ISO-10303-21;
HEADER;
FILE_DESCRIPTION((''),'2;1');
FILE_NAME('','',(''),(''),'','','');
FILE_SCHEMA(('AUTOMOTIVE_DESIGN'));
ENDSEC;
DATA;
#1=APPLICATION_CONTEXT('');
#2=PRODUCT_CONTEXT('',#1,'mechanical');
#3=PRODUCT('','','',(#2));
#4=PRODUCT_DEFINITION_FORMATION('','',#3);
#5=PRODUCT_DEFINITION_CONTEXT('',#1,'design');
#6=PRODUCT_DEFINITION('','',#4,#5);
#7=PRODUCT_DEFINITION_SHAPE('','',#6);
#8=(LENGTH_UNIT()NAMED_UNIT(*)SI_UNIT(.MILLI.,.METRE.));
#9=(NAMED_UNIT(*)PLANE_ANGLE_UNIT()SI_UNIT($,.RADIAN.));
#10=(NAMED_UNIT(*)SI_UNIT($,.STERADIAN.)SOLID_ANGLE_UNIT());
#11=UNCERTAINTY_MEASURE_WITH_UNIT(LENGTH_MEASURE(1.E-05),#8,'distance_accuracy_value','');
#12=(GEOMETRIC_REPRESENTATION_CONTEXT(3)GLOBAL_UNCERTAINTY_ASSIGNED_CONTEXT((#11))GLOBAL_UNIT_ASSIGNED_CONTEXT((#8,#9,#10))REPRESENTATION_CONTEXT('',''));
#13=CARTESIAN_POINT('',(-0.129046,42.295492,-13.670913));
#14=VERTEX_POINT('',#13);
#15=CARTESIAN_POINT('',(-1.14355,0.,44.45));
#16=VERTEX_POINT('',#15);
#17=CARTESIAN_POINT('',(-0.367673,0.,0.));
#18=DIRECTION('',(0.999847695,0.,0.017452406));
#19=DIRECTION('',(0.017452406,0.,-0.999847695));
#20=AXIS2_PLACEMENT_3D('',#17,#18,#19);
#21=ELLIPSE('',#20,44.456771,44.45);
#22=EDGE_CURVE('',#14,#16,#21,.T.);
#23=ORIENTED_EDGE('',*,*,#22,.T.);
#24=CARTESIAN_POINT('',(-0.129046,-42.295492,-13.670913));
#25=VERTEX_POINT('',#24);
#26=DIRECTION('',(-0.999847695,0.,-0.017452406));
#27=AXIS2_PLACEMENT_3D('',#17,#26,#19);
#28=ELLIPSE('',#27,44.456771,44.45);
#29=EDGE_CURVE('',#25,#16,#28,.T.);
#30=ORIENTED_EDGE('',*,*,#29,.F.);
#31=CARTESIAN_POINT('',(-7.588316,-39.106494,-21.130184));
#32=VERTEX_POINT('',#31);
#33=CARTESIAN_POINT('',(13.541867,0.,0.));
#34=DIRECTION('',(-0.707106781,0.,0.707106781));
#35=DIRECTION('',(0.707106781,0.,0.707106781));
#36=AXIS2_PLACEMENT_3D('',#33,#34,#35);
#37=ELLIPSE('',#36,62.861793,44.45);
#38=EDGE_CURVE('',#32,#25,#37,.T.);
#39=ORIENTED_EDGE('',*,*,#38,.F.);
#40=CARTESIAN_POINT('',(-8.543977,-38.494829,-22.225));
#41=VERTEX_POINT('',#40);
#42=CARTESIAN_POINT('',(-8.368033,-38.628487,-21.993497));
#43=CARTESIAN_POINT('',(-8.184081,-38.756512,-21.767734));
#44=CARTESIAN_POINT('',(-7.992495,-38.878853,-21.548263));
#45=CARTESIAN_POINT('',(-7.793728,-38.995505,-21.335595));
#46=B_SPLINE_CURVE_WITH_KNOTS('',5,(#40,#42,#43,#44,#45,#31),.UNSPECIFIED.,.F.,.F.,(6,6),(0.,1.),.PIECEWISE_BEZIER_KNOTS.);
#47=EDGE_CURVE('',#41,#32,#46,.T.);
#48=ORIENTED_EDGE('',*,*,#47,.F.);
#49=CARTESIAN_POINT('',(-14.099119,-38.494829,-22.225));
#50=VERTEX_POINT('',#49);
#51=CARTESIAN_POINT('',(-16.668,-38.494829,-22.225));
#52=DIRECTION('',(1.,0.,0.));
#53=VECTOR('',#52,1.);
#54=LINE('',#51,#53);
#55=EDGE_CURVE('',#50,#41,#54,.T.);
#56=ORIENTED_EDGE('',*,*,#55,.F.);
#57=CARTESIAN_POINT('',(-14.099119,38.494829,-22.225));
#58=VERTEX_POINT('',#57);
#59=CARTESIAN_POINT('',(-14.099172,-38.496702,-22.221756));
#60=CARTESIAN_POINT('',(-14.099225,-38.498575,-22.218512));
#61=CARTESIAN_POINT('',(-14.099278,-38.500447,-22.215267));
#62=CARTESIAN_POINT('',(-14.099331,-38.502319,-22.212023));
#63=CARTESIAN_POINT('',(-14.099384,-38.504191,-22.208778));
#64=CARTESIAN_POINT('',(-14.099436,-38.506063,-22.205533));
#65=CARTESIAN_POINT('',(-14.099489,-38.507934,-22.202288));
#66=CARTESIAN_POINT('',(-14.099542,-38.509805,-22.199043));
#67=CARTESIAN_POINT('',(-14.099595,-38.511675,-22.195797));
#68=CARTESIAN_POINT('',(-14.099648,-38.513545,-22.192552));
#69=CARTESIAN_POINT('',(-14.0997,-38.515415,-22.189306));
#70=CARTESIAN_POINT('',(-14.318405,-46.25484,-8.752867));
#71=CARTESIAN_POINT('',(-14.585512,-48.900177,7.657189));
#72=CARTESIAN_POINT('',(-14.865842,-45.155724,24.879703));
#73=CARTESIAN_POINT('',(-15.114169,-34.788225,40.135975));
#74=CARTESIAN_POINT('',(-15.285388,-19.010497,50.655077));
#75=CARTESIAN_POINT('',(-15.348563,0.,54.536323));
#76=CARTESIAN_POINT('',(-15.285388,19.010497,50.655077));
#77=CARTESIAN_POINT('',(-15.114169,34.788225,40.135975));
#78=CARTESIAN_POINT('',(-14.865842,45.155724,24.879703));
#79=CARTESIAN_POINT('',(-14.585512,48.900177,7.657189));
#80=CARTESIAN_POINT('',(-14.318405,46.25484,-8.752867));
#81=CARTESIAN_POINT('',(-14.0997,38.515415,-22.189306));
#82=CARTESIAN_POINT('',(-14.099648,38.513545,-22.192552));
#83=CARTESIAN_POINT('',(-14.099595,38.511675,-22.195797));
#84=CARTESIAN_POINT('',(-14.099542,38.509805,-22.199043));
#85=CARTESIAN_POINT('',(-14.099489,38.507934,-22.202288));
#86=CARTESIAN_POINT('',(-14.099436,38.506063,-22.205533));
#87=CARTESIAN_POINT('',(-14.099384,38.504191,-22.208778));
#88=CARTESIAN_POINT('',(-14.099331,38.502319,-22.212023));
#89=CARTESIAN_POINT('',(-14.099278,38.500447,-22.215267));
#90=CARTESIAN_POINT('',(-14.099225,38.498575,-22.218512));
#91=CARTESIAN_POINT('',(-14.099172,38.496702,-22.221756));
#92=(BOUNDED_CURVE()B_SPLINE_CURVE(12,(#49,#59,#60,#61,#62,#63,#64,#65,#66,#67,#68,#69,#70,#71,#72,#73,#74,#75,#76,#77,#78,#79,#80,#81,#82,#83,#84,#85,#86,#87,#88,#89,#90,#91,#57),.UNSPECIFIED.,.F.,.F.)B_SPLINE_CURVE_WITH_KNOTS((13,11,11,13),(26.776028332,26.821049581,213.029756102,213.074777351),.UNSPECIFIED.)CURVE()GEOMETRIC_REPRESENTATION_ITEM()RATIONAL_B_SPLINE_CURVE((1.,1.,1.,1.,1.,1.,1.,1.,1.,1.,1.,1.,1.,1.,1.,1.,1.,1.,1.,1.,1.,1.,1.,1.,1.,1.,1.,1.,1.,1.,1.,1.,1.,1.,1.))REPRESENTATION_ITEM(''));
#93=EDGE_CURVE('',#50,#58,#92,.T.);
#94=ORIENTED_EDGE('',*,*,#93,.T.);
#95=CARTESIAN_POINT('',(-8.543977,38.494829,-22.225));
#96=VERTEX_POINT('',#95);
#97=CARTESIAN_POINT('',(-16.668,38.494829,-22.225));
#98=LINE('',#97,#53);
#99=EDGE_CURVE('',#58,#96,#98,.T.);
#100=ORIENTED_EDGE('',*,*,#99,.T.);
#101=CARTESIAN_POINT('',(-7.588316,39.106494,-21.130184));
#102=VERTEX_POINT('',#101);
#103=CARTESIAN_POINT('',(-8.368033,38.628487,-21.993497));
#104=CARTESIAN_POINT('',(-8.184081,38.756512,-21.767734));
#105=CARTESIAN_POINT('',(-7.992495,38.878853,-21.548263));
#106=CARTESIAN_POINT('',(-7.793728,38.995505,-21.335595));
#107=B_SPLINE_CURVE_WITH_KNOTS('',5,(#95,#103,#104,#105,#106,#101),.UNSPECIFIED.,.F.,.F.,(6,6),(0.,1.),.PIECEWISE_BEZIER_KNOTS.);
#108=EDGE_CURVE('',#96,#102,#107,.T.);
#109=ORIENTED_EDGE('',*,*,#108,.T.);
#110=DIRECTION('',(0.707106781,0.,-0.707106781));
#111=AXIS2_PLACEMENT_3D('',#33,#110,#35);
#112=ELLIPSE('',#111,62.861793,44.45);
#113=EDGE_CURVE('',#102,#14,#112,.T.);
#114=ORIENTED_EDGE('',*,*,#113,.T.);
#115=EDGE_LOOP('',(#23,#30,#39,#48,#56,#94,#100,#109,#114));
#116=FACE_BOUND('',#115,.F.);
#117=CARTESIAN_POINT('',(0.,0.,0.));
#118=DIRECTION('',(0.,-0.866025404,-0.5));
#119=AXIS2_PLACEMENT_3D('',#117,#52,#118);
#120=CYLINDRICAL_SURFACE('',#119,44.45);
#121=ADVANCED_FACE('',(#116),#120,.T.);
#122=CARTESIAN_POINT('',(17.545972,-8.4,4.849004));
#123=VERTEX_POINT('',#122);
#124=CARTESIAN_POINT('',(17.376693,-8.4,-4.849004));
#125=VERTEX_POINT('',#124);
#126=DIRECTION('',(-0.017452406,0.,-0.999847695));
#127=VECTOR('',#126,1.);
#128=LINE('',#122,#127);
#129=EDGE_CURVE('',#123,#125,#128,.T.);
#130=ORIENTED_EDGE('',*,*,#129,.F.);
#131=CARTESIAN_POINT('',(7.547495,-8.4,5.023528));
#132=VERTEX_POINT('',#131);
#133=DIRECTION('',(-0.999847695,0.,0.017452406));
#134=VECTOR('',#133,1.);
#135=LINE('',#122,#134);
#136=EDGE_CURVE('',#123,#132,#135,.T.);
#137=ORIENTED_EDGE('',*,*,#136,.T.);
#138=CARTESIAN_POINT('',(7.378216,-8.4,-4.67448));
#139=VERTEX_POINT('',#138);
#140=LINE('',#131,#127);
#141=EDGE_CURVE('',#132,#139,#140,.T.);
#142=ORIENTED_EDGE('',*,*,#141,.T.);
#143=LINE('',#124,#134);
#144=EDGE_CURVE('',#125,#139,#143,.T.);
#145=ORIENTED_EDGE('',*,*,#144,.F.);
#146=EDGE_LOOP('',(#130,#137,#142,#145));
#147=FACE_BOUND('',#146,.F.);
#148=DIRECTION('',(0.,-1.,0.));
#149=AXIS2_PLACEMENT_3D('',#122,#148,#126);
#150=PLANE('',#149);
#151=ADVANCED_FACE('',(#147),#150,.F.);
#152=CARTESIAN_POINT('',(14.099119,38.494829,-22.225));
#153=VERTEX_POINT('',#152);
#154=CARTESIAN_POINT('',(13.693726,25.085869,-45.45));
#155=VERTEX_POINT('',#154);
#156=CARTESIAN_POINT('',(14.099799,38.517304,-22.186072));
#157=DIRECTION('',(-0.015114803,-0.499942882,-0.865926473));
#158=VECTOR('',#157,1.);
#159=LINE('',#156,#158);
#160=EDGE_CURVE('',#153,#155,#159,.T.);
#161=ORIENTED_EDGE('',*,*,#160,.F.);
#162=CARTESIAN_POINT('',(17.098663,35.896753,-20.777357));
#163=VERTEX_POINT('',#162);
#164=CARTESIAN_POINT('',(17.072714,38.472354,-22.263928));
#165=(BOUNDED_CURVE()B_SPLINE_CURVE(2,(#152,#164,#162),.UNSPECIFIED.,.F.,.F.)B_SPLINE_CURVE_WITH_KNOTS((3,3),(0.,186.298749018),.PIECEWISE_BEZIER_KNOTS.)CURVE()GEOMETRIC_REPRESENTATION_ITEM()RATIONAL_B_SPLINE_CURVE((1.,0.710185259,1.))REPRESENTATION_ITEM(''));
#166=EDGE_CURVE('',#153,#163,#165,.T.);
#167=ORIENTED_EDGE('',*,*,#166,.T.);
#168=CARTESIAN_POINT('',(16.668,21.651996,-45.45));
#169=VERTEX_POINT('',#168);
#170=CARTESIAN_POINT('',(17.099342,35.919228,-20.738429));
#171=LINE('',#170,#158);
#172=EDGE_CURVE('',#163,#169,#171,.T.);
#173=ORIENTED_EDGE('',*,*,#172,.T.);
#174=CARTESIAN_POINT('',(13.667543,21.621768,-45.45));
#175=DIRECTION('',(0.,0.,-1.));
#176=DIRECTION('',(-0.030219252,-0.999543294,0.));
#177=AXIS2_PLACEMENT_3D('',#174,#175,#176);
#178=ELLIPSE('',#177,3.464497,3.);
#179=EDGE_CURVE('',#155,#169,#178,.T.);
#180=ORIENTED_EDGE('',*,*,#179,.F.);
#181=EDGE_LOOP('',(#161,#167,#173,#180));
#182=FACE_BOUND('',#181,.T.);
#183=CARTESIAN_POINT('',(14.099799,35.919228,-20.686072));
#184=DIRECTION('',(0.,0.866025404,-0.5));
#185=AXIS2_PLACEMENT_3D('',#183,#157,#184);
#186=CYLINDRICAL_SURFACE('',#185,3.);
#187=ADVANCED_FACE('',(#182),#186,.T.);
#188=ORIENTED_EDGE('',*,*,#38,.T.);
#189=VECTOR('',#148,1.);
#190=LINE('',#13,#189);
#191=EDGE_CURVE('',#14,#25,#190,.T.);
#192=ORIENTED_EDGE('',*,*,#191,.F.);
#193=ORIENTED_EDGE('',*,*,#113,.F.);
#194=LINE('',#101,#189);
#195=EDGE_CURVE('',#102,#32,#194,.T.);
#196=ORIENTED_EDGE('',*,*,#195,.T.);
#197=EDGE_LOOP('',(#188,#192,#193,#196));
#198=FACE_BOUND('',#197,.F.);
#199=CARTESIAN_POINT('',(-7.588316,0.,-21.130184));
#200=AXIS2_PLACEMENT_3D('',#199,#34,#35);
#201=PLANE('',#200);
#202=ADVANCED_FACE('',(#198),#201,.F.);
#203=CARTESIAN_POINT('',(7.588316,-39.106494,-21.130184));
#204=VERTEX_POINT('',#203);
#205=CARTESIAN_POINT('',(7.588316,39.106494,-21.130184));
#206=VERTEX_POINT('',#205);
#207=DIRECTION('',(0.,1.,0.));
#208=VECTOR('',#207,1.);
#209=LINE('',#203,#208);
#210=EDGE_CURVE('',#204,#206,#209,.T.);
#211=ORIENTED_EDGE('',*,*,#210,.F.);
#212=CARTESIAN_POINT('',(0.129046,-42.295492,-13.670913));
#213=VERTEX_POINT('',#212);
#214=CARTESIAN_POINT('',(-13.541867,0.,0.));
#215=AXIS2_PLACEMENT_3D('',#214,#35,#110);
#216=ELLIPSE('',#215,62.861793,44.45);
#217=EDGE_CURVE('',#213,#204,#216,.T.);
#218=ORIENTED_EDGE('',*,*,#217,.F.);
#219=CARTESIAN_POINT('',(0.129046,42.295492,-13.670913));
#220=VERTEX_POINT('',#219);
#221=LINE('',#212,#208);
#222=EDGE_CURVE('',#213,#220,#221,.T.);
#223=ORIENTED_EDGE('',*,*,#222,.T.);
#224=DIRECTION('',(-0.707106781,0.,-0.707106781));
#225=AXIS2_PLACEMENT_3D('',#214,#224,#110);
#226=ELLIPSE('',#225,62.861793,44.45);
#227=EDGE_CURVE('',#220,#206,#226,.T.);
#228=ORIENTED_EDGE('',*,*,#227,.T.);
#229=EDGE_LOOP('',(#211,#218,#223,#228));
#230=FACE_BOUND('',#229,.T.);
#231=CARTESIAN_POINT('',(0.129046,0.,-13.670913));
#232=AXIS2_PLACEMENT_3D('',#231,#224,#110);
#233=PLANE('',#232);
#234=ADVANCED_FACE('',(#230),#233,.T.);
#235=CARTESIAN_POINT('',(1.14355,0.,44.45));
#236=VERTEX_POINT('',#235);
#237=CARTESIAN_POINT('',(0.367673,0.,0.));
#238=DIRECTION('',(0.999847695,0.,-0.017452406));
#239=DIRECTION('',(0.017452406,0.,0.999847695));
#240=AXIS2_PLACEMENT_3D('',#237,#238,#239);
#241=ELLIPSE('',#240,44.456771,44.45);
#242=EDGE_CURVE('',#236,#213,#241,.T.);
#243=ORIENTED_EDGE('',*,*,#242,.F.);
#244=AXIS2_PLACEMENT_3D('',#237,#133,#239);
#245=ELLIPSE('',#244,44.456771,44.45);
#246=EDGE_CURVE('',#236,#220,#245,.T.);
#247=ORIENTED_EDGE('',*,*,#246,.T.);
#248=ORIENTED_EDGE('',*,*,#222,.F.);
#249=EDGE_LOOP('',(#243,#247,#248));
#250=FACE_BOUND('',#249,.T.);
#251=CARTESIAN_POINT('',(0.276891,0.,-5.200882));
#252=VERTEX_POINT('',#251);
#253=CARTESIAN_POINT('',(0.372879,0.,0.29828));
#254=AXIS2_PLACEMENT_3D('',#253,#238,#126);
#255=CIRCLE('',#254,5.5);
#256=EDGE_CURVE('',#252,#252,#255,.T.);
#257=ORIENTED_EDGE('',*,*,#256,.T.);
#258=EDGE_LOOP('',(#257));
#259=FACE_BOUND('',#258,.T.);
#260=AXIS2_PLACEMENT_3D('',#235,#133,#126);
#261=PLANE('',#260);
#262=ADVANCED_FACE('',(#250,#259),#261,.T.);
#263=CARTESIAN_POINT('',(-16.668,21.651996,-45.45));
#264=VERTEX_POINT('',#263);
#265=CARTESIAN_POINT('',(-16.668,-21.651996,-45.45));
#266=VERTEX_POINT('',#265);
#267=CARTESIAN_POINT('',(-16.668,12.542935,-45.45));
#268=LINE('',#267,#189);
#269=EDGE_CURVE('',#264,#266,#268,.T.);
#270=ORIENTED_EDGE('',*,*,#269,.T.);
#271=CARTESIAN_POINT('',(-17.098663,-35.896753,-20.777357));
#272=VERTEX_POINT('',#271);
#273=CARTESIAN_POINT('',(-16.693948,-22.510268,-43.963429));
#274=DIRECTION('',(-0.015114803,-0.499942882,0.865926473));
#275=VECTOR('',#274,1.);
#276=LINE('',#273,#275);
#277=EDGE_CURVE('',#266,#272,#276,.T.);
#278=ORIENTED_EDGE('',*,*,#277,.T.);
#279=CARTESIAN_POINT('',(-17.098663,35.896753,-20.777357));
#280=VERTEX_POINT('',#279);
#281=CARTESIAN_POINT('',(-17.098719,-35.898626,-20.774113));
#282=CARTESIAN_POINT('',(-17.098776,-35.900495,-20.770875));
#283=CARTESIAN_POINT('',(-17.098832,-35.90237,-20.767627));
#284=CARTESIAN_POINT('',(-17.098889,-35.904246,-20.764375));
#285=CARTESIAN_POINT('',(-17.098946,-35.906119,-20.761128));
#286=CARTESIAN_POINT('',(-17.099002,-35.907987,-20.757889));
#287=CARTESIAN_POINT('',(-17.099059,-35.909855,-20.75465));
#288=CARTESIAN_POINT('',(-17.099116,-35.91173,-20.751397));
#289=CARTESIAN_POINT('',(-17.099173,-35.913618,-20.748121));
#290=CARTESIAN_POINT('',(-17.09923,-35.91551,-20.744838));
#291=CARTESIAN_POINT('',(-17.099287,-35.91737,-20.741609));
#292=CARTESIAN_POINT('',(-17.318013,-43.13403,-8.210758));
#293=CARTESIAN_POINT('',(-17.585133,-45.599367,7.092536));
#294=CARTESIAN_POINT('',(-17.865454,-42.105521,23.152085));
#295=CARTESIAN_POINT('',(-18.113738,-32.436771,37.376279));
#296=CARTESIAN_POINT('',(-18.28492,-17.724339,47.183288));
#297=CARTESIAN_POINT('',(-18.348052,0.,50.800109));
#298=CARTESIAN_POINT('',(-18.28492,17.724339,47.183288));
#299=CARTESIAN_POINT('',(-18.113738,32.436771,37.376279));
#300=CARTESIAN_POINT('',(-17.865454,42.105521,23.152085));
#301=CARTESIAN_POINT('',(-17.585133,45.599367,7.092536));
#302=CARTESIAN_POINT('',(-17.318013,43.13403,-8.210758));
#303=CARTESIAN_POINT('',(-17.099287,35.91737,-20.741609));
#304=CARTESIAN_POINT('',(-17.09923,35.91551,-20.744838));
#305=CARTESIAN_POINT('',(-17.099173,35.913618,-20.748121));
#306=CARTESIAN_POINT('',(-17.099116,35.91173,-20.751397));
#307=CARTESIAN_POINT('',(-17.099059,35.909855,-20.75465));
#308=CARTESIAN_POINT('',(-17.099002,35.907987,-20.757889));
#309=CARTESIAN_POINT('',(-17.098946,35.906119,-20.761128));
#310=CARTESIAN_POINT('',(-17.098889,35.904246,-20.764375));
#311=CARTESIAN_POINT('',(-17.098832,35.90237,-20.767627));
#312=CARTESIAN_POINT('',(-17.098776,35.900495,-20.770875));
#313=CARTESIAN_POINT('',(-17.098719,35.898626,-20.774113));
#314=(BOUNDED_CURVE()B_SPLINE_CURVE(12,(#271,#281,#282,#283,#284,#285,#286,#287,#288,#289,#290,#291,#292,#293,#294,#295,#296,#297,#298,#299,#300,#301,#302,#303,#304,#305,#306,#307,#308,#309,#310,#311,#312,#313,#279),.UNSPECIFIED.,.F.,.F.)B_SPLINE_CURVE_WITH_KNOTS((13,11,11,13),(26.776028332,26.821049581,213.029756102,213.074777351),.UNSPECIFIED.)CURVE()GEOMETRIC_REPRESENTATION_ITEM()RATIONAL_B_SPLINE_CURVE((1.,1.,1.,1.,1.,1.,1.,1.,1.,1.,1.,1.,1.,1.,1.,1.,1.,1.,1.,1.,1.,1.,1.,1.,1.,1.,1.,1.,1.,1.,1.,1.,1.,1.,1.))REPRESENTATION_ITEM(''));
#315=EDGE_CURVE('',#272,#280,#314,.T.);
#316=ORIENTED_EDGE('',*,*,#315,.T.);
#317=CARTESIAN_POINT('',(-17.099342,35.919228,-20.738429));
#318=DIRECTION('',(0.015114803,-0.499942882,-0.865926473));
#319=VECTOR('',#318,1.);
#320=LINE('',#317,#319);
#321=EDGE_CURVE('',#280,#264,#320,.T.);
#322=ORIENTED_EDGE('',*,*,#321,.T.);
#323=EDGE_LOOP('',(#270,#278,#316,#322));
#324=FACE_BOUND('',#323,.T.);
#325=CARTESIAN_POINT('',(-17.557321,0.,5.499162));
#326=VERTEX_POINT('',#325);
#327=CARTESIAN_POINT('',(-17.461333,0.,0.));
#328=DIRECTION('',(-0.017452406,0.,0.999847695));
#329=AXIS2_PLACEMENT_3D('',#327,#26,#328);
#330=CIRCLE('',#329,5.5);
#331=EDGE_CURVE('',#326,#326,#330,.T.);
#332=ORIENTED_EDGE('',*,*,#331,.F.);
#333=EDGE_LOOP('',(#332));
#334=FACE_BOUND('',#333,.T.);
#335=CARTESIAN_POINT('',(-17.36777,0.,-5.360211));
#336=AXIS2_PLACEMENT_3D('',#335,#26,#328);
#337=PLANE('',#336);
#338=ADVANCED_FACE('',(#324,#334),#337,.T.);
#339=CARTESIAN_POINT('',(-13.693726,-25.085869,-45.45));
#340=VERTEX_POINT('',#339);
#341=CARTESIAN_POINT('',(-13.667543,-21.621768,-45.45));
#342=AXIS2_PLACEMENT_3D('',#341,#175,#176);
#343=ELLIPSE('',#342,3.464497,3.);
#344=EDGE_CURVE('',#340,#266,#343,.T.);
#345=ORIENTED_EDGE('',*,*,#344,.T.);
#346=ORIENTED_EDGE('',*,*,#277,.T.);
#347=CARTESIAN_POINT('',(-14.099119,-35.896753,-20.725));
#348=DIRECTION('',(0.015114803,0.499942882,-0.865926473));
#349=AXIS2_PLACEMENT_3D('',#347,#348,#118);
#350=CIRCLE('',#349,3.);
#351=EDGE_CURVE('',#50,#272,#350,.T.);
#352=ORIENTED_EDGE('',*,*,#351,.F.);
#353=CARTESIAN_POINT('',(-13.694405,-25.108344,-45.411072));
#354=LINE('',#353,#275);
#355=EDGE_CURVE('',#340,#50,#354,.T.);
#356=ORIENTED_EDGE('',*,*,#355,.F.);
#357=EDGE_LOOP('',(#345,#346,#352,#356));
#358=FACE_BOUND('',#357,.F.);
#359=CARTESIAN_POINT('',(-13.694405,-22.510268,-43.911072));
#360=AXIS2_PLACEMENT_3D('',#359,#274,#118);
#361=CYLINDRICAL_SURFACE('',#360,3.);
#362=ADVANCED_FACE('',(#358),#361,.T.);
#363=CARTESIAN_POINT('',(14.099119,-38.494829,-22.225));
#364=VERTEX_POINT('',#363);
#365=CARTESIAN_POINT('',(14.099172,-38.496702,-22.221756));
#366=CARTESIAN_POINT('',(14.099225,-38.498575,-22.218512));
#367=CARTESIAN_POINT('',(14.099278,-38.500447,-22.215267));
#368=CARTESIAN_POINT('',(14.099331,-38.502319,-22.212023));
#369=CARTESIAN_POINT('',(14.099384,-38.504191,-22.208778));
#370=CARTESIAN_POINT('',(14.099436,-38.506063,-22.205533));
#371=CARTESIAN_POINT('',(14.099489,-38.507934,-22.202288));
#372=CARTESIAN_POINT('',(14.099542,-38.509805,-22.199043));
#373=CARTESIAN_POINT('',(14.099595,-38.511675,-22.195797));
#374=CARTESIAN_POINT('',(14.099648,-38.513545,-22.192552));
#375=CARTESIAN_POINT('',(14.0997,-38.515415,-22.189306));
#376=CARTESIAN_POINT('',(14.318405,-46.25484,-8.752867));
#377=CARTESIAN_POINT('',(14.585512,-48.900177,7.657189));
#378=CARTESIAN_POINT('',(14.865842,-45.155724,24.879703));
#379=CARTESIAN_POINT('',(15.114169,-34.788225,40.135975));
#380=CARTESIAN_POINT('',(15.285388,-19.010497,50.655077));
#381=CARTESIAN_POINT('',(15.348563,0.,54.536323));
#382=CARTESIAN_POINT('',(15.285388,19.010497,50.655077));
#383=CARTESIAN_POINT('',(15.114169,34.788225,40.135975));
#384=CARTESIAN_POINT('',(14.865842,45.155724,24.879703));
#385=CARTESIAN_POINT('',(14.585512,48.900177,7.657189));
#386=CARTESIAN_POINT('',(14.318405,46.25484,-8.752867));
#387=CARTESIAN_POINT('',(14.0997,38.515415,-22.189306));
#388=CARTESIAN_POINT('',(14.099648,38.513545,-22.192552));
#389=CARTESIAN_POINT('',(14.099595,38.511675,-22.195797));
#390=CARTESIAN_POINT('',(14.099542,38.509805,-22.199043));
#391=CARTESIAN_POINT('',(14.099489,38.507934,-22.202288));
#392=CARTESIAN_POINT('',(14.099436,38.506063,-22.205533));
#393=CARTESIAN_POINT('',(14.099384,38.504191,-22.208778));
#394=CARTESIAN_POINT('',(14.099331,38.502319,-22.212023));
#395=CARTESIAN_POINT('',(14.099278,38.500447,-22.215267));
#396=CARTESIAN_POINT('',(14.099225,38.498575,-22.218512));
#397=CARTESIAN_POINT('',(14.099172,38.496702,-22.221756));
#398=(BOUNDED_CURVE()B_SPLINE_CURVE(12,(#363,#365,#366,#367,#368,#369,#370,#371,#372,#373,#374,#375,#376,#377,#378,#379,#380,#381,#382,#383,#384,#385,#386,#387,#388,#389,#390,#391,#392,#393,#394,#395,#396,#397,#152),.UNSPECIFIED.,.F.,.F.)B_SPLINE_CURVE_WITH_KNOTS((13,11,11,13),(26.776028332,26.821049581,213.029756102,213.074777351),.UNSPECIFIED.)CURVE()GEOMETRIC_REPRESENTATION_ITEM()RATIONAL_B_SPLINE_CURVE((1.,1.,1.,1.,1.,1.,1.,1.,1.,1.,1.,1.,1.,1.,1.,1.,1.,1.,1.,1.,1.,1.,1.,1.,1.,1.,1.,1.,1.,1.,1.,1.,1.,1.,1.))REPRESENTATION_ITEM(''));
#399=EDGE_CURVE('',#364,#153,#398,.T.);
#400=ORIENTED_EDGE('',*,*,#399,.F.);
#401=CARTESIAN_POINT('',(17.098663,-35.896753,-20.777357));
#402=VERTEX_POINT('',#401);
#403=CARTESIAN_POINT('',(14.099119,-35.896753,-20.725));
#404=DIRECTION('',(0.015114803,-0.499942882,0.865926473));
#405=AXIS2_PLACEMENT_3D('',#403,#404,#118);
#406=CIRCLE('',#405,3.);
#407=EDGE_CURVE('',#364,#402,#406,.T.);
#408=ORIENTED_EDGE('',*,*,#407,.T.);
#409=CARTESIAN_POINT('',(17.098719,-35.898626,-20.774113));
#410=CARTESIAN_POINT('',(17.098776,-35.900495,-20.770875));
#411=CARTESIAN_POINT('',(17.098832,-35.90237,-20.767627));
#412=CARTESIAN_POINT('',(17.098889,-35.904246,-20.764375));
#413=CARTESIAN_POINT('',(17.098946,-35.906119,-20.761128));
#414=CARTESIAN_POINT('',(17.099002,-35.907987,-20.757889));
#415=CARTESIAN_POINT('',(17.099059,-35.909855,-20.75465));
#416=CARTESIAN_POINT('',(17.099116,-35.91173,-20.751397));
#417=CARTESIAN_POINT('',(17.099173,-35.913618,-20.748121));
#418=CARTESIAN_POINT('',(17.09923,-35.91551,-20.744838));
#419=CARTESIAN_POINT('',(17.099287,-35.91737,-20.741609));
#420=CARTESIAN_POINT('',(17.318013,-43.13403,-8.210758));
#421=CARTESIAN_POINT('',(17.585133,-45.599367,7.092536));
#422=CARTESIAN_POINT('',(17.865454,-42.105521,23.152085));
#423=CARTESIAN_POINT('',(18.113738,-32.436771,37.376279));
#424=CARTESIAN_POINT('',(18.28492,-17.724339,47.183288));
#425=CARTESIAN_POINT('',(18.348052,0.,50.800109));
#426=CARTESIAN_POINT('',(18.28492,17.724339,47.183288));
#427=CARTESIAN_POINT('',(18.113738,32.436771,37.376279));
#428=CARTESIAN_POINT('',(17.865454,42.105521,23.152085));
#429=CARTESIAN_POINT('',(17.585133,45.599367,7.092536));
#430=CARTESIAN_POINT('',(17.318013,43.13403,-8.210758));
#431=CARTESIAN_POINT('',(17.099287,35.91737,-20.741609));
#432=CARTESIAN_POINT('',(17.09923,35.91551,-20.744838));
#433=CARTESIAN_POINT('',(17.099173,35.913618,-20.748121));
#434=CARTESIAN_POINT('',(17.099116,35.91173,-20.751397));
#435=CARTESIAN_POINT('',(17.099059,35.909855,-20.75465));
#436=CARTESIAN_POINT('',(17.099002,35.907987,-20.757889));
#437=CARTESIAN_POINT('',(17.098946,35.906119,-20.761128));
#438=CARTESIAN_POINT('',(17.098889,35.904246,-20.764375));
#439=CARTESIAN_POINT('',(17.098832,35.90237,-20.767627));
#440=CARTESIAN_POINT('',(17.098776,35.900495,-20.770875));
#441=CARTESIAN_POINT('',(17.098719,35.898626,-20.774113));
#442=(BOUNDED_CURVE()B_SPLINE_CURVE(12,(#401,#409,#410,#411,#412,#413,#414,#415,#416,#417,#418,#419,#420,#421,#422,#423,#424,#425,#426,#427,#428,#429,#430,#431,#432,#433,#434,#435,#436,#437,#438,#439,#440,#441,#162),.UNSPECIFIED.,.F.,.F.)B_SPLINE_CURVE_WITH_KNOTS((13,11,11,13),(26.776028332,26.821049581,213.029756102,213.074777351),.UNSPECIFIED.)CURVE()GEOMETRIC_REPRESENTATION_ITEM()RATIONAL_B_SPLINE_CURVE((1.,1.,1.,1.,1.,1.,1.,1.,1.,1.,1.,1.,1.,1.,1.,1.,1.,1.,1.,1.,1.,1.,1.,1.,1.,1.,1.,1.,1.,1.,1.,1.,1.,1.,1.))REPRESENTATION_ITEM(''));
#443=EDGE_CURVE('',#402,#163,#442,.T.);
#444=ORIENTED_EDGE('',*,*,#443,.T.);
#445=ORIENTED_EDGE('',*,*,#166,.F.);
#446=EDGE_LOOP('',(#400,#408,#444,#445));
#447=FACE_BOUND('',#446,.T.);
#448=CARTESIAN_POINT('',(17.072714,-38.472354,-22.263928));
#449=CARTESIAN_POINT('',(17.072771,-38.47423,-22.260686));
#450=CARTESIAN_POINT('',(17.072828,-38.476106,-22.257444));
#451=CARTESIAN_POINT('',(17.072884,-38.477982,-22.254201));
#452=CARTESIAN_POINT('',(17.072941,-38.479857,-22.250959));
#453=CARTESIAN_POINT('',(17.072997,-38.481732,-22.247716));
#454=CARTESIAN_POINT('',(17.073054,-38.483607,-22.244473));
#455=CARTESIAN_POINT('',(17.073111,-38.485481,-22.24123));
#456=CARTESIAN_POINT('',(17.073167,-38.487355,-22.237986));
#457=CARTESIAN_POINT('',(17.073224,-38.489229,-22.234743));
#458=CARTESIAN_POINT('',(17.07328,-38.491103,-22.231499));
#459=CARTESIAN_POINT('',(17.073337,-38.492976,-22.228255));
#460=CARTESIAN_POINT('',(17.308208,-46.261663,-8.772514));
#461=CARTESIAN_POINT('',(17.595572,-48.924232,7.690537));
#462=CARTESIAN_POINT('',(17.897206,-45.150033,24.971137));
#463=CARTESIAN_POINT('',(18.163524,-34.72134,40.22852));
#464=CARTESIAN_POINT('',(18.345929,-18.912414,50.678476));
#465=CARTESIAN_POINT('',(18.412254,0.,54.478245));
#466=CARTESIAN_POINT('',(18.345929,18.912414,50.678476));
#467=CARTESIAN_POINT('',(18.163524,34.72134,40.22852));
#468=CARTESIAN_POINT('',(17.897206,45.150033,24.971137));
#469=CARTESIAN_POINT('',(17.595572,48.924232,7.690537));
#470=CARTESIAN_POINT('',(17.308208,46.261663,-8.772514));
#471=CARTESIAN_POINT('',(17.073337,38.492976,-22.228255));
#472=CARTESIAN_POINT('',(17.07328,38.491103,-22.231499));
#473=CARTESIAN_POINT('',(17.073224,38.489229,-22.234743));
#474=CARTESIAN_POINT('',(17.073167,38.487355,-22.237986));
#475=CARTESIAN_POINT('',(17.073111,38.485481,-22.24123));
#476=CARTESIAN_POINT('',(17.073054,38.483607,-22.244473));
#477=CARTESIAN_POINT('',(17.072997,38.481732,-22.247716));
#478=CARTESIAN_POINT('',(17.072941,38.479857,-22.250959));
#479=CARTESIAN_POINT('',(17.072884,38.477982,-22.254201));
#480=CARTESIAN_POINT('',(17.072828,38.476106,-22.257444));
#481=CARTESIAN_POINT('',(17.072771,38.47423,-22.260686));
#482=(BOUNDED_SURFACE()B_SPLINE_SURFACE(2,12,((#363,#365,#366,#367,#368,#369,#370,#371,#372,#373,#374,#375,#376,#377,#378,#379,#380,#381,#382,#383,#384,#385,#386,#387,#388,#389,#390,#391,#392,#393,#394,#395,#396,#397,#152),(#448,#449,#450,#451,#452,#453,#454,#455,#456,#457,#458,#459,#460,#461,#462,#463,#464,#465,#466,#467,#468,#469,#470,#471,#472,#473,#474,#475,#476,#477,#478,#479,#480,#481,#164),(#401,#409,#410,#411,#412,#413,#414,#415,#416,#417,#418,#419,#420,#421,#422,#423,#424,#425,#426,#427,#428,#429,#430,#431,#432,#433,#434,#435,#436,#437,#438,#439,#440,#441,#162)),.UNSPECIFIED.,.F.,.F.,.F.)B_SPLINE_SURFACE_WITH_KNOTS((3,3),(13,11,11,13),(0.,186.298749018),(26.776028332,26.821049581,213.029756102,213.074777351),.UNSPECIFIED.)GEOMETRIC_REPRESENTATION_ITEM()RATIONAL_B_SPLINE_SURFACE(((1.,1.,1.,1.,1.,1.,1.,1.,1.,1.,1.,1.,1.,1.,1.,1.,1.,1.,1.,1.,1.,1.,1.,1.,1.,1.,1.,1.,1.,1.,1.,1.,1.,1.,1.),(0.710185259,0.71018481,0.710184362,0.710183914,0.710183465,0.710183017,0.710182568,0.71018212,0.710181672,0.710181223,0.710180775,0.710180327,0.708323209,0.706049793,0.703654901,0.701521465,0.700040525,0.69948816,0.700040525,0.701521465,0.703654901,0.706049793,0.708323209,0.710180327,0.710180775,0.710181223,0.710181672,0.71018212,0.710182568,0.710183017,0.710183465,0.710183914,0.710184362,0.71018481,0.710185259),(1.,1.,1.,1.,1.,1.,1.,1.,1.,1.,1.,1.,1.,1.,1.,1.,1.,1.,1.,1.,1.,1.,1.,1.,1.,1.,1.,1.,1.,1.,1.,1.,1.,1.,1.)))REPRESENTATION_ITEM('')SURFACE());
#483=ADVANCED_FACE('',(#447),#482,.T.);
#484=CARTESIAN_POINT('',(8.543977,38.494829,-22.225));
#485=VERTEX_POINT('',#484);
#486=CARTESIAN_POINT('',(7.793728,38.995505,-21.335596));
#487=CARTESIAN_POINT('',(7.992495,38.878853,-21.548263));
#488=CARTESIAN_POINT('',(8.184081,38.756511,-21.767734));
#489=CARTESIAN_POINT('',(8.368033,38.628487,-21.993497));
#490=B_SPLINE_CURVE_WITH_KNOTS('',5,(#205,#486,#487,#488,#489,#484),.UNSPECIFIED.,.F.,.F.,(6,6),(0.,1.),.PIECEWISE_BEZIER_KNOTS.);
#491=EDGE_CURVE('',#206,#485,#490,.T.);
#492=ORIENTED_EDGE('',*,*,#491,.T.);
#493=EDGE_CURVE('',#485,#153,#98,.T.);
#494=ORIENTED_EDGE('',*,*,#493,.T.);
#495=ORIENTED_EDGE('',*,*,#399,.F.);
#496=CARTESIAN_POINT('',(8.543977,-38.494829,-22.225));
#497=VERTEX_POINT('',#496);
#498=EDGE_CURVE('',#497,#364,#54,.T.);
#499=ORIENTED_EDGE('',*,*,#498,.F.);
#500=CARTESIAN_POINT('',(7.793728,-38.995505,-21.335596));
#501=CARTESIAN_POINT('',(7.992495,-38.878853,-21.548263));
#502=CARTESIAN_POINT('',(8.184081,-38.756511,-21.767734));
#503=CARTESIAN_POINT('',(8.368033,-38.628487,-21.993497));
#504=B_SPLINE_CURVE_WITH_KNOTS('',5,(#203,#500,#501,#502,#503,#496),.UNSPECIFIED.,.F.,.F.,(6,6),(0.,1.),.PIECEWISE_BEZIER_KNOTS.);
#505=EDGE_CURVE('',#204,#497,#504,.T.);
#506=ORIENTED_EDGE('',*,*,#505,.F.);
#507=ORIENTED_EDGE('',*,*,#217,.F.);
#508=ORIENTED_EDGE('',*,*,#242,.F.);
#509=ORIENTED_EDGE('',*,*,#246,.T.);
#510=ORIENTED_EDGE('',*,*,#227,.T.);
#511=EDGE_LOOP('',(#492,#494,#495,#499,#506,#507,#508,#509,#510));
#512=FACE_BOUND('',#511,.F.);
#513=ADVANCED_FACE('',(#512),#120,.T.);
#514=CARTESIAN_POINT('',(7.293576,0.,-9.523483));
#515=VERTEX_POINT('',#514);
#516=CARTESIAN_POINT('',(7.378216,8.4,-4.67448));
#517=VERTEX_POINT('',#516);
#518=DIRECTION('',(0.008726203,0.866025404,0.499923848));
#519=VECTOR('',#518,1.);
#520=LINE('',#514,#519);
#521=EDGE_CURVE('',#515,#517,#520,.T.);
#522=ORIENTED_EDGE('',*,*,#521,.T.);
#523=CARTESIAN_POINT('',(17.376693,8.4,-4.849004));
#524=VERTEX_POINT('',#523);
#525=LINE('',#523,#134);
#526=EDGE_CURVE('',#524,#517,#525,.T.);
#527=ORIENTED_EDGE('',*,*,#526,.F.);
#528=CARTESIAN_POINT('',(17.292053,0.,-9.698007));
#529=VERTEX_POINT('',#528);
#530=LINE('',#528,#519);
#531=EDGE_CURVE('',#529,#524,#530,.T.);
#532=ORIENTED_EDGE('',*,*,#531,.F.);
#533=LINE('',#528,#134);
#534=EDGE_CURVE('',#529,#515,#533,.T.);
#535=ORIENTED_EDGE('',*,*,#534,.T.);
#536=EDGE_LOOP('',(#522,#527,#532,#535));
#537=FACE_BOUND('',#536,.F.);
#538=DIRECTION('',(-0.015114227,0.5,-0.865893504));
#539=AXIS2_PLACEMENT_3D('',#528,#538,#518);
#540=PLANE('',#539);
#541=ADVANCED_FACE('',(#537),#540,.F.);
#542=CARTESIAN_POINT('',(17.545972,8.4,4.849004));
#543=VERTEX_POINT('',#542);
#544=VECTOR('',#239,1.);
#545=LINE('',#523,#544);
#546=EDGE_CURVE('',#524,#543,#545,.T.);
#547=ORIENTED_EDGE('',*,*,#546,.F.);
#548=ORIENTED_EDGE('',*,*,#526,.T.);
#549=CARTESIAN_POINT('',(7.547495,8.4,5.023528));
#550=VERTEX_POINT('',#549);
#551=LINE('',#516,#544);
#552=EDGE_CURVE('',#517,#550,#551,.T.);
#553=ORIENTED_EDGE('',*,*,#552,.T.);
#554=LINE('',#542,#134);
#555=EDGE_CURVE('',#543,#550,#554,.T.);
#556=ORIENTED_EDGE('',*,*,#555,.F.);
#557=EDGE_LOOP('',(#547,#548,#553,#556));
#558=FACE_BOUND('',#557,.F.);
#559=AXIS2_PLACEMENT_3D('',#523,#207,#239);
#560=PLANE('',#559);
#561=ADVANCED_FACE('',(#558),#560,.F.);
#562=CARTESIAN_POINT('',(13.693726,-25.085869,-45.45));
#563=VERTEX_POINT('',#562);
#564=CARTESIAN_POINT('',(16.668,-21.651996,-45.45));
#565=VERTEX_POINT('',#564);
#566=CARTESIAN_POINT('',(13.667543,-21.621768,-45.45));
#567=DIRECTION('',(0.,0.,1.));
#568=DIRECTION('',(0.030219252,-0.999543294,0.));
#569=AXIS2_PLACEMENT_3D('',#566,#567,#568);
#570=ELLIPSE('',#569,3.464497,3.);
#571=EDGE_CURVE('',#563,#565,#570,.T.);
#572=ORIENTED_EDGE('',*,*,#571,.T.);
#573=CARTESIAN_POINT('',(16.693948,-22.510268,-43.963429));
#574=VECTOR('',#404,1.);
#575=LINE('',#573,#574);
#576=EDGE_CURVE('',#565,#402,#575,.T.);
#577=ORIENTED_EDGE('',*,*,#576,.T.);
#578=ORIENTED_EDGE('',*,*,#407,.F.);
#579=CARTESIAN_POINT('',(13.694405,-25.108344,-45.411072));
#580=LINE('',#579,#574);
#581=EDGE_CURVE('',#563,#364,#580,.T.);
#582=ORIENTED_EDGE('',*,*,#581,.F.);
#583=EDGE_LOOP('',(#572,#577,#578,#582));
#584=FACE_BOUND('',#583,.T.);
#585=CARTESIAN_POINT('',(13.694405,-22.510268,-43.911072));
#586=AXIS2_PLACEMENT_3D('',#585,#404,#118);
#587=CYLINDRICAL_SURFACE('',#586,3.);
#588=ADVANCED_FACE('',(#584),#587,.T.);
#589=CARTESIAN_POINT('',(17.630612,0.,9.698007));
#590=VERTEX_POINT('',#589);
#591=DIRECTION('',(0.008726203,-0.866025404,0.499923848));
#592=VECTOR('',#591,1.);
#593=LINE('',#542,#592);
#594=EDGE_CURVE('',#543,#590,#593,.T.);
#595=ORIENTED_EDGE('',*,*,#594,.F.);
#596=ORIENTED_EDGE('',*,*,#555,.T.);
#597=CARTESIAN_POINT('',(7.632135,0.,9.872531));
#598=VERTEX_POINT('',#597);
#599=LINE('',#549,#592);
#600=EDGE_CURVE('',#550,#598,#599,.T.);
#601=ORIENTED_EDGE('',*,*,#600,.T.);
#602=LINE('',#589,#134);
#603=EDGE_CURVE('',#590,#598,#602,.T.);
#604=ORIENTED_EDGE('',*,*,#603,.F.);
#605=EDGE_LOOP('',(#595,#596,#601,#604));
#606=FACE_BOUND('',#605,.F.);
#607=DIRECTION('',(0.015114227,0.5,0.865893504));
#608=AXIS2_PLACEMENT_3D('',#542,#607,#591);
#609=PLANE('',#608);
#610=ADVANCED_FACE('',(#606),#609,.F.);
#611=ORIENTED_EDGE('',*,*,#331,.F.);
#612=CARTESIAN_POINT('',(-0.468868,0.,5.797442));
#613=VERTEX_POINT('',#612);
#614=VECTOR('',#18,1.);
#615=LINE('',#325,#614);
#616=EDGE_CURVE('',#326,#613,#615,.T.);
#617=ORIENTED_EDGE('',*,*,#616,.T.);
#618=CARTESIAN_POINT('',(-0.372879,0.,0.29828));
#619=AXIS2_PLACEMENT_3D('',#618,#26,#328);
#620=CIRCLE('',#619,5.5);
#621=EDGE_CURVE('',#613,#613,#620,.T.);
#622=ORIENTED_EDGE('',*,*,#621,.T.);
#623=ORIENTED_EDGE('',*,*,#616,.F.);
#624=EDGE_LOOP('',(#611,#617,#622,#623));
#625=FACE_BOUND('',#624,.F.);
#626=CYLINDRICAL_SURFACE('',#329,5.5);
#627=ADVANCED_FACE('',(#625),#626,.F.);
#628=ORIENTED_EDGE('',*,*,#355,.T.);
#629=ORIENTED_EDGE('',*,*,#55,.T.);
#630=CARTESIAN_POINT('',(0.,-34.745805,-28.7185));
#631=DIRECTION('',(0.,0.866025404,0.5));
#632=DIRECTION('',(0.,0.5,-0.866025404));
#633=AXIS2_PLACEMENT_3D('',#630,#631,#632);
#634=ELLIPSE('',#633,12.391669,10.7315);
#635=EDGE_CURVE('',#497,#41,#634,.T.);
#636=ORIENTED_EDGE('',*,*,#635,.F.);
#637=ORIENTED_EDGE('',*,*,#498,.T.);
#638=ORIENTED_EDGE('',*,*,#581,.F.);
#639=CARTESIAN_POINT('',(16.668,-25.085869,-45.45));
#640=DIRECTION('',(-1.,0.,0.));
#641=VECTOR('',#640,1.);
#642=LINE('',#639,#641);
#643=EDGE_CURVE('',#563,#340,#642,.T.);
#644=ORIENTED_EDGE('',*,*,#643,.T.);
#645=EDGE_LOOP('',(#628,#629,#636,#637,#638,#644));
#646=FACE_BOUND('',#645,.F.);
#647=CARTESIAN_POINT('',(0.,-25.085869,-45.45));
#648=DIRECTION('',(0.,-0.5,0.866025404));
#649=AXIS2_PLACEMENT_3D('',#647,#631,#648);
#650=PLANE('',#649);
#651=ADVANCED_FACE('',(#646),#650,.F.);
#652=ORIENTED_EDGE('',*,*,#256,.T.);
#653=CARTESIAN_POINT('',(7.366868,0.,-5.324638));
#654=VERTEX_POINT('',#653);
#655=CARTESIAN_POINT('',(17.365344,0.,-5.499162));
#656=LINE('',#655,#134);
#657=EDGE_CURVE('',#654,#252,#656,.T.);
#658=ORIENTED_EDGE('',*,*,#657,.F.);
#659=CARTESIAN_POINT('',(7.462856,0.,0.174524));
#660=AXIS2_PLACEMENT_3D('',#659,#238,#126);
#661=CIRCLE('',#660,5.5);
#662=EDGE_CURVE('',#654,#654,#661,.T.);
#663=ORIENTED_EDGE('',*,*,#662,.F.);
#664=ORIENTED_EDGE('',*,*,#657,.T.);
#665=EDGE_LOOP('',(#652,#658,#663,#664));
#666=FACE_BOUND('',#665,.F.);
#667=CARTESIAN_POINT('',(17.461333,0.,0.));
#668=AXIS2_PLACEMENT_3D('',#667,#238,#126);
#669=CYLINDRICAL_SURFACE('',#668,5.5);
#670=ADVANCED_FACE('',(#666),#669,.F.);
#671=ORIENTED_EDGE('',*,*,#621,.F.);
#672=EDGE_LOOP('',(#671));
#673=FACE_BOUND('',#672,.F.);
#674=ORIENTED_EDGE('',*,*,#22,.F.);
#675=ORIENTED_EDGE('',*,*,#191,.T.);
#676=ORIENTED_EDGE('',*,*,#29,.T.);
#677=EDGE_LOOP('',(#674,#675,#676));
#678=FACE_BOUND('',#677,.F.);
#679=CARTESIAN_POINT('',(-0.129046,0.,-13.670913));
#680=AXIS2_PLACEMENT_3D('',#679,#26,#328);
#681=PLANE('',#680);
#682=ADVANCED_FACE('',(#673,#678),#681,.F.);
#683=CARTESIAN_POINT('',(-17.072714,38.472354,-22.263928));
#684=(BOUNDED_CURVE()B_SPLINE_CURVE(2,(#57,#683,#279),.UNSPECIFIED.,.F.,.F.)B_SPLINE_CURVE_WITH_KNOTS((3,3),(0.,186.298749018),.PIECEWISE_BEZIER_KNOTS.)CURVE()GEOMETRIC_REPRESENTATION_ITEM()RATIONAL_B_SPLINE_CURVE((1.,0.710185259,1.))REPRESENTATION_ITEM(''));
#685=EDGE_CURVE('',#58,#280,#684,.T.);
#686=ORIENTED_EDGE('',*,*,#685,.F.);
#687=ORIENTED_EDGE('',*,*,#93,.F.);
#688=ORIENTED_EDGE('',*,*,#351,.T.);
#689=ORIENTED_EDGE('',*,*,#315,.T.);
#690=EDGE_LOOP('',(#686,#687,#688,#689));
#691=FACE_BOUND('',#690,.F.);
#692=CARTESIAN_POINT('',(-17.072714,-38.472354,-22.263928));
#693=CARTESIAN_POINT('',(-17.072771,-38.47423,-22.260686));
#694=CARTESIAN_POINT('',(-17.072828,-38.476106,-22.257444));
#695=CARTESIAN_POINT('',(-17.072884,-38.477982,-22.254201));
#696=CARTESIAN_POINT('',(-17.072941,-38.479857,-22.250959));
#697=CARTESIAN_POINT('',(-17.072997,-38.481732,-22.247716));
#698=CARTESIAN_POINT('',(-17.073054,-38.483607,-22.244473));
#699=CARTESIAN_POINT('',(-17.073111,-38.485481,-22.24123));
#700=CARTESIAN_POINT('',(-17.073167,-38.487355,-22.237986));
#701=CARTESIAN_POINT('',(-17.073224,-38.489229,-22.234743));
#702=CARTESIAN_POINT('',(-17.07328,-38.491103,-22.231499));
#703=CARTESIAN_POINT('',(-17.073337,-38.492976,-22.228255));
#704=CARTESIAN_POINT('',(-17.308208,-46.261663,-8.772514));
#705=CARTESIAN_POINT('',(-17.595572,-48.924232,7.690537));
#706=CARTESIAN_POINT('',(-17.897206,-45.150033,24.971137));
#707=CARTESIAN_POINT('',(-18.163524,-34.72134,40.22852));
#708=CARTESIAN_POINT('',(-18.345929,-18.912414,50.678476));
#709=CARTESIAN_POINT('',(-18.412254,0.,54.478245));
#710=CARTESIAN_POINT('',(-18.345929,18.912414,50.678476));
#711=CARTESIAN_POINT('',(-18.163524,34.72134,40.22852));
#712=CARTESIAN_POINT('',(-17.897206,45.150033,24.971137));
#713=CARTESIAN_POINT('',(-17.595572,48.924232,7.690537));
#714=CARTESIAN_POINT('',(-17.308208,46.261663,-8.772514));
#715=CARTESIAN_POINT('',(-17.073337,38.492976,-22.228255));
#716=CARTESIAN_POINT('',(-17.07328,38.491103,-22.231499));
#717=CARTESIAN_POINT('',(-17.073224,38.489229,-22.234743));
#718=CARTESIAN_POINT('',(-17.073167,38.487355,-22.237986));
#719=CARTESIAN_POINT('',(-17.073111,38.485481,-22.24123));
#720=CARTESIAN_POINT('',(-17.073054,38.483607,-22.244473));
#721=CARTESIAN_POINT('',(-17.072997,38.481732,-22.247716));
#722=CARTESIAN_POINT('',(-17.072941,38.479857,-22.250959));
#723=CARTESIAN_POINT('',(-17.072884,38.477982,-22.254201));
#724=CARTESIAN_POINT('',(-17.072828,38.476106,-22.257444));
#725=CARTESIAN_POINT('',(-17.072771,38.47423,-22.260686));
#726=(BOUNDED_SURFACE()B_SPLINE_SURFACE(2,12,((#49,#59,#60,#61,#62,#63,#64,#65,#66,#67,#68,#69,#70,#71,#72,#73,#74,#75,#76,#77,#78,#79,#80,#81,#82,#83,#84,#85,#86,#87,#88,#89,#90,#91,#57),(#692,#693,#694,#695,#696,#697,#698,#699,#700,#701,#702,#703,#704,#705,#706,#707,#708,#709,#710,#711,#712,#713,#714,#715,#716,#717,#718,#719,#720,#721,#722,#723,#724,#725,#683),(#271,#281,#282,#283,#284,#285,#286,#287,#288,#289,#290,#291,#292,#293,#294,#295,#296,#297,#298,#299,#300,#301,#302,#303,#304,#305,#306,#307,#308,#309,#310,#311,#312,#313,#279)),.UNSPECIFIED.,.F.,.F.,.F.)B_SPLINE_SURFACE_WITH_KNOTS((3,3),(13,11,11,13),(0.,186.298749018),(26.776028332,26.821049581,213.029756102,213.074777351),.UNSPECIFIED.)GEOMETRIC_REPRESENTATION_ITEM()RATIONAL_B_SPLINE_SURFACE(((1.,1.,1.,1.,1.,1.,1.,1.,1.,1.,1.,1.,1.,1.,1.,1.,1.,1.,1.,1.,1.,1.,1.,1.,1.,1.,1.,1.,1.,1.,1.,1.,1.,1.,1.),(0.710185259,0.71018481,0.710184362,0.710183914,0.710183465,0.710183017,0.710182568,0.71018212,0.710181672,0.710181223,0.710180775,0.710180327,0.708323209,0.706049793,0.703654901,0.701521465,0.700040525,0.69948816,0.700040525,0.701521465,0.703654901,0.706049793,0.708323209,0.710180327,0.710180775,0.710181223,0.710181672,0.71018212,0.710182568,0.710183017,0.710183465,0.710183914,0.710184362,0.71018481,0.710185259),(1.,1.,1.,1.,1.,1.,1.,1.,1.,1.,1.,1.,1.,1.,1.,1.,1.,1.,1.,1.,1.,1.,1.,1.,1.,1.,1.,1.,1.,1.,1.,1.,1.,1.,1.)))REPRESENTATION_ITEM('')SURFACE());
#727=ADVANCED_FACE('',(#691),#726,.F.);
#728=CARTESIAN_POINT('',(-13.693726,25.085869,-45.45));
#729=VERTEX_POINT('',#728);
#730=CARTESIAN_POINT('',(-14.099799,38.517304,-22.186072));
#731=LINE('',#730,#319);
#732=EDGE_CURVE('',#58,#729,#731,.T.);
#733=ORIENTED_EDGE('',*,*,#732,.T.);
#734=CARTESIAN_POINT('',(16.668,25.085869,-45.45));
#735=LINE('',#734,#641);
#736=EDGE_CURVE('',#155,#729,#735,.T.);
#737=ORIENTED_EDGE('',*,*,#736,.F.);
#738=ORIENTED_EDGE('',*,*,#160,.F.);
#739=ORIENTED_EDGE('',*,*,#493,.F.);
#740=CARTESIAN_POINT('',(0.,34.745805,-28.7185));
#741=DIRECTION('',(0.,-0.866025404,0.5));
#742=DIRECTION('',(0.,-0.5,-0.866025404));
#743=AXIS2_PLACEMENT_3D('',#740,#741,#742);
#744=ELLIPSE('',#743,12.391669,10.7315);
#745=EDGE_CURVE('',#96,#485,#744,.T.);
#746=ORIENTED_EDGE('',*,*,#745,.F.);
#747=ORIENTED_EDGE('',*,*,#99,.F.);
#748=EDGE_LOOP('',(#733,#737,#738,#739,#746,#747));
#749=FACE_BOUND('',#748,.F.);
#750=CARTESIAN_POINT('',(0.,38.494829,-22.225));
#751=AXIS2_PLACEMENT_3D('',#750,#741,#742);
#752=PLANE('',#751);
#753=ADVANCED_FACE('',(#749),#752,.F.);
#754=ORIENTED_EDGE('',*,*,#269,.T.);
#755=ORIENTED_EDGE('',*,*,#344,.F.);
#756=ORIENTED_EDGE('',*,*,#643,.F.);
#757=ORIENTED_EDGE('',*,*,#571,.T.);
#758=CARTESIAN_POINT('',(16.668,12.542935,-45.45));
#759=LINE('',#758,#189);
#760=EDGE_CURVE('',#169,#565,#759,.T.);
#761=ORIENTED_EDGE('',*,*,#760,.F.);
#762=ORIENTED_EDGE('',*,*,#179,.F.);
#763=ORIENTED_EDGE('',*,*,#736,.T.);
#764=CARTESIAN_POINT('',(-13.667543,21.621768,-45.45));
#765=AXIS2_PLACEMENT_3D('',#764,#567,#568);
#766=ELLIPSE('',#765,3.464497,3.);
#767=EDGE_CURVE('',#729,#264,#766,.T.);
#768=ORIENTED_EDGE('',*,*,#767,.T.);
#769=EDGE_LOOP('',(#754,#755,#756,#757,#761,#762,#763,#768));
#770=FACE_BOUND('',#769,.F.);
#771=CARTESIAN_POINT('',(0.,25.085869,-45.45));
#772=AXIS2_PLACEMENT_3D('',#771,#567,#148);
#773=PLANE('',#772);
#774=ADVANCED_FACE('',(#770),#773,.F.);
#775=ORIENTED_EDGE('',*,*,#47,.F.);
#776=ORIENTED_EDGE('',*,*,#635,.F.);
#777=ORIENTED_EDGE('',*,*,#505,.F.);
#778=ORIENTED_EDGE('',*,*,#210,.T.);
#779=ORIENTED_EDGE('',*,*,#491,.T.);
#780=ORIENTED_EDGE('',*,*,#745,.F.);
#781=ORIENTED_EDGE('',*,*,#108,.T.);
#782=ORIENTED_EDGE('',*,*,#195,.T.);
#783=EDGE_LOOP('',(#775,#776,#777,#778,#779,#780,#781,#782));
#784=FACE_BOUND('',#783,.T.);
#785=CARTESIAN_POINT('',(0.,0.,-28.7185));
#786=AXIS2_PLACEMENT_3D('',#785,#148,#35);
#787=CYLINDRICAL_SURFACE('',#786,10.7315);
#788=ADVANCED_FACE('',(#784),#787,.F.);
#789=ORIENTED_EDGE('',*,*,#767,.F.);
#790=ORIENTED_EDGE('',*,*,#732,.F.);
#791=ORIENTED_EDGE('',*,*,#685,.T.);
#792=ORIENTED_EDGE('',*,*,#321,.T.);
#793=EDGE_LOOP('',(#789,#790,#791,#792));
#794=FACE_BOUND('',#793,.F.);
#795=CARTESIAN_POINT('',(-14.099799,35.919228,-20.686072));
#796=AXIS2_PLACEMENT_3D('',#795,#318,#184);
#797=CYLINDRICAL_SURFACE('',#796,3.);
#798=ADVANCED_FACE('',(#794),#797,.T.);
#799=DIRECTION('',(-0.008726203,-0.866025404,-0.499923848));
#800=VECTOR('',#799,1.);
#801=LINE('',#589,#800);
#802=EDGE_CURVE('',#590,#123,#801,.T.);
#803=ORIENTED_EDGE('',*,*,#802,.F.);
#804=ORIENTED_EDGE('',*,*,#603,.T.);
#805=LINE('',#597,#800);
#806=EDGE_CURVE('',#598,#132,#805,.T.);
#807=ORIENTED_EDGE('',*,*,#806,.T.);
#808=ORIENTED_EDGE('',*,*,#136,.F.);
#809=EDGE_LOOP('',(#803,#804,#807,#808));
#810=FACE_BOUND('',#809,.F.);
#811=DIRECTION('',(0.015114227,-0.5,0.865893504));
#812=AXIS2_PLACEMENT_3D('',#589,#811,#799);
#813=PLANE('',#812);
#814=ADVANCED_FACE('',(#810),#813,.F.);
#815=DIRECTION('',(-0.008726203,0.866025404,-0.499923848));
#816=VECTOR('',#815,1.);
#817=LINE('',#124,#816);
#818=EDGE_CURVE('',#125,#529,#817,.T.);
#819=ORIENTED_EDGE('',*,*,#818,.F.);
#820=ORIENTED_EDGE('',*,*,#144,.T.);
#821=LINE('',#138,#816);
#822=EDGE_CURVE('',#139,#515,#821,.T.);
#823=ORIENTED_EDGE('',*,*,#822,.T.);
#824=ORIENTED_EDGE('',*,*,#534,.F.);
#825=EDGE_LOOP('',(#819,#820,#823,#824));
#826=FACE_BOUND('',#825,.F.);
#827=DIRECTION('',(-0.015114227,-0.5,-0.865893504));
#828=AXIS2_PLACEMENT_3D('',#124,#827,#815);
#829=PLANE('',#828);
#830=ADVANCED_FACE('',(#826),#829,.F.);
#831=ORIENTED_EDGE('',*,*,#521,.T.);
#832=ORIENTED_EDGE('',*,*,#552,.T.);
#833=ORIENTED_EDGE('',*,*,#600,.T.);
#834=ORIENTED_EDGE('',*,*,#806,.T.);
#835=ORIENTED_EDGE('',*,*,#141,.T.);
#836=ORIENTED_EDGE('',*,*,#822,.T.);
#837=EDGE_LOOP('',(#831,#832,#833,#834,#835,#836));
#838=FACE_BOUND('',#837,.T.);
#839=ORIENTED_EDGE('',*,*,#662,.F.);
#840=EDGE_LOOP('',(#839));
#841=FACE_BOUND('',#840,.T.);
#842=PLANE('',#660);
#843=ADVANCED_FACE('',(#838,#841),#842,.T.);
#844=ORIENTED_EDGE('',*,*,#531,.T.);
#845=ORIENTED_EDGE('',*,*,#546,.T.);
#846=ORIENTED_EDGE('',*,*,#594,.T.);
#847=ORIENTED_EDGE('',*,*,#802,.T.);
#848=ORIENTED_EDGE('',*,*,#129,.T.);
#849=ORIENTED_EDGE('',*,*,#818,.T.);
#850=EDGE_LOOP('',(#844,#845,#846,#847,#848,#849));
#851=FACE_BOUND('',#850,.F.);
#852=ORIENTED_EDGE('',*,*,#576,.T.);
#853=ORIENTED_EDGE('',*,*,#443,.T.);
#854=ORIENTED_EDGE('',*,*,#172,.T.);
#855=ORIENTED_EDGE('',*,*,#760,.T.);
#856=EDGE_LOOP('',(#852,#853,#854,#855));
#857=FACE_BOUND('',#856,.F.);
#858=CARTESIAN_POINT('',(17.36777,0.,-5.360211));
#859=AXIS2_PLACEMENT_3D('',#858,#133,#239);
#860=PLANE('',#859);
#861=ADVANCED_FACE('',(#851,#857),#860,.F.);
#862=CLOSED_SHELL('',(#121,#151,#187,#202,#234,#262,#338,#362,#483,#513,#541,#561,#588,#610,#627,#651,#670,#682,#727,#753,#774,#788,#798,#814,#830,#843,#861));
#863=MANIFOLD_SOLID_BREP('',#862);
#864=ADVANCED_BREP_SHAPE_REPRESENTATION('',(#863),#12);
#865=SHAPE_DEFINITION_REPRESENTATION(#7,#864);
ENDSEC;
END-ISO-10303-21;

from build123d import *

# Parameters (mm, degrees)
BOSS_EXTRUDE1_DEPTH     = 16.668
CUT_EXTRUDE1_DEPTH      = 45.45
CUT_EXTRUDE1_DEPTH_BACK = 45.45
DRAFT1_ANGLE            = 1
CUT_EXTRUDE2_REACH      = 38.469
SKETCH3_R               = 5.5
CUT_EXTRUDE3_DEPTH      = 10
CUT_EXTRUDE4_REACH      = 38.469
SKETCH5_R               = 5.5
FILLET1_R               = 3


with BuildPart() as part:
    # Sketch1 → Boss-Extrude1 (new body, symmetric)
    with BuildSketch(Plane(origin=(0, 0, 0), x_dir=(0, 0, -1), z_dir=(1, 0, 0))):
        with BuildLine():
            Line((22.225, 38.494829198), (45.45, 25.085869196))
            Line((45.45, 25.085869196), (45.45, -25.085869196))
            Line((45.45, -25.085869196), (22.225, -38.494829198))
            ThreePointArc((22.225, -38.494829198), (-44.45, 0), (22.225, 38.494829198))
        make_face()
    extrude(amount=BOSS_EXTRUDE1_DEPTH, both=True)

    # Sketch2 → Cut-Extrude1 (cut, two sides)
    with BuildSketch(Plane(origin=(0, 0, 0), x_dir=(1, 0, 0), z_dir=(0, 1, 0))) as cut_extrude1_sk:
        with BuildLine():
            Line((-7.588316422, 21.130183578), (-0.129046134, 13.670913289))
            Line((-0.129046134, 13.670913289), (-1.143550449, -44.45))
            Line((-1.143550449, -44.45), (1.143550449, -44.45))
            Line((1.143550449, -44.45), (0.129046134, 13.670913289))
            Line((0.129046134, 13.670913289), (7.588316422, 21.130183578))
            ThreePointArc((7.588316422, 21.130183578), (0, 39.45), (-7.588316422, 21.130183578))
        make_face()
    extrude(amount=CUT_EXTRUDE1_DEPTH, mode=Mode.SUBTRACT)
    extrude(cut_extrude1_sk.sketch, amount=-CUT_EXTRUDE1_DEPTH_BACK, mode=Mode.SUBTRACT)

    # Draft1
    draft1_faces = [part.faces().sort_by_distance(p)[0] for p in [
        (16.668, 0, -1.658648034),
        (-16.668, 0, -1.658648034),
    ]]
    draft(draft1_faces, Plane(origin=(16.668, 25.085869196, -45.45), x_dir=(-1, 0, 0), z_dir=(0, 0, -1)), DRAFT1_ANGLE)

    # Sketch3 → Cut-Extrude2 (cut, up to next)
    with BuildSketch(Plane(origin=(17.456014215, 0, -0.304695862), x_dir=(-0.017452406, 0, -0.999847695), z_dir=(0.999847695, 0, -0.017452406)), mode=Mode.PRIVATE) as cut_extrude2_sk1:
        with Locations((-0.304742275, 0)):
            Circle(SKETCH3_R)
    cut_extrude2_tool1 = extrude(cut_extrude2_sk1.sketch, amount=-CUT_EXTRUDE2_REACH, mode=Mode.PRIVATE) & part.part
    add(cut_extrude2_tool1.solids().sort_by_distance((17.461333, 0, 0))[0], mode=Mode.SUBTRACT)

    # Sketch4 → Cut-Extrude3 (cut)
    with BuildSketch(Plane(origin=(17.456014215, 0, -0.304695862), x_dir=(-0.017452406, 0, -0.999847695), z_dir=(0.999847695, 0, -0.017452406))):
        Polygon((9.394742247, 0), (4.544999986, 8.4), (-5.154484536, 8.4), (-10.004226798, 0), (-5.154484536, -8.4), (4.544999986, -8.4), align=None)
    extrude(amount=-CUT_EXTRUDE3_DEPTH, mode=Mode.SUBTRACT)

    # Sketch5 → Cut-Extrude4 (cut, up to next)
    with BuildSketch(Plane(origin=(-17.456014215, 0, -0.304695862), x_dir=(-0.017452406, 0, 0.999847695), z_dir=(-0.999847695, 0, -0.017452406)), mode=Mode.PRIVATE) as cut_extrude4_sk1:
        with Locations((0.304742275, 0)):
            Circle(SKETCH5_R)
    cut_extrude4_tool1 = extrude(cut_extrude4_sk1.sketch, amount=-CUT_EXTRUDE4_REACH, mode=Mode.PRIVATE) & part.part
    add(cut_extrude4_tool1.solids().sort_by_distance((-17.461333, 0, 0))[0], mode=Mode.SUBTRACT)

    # Fillet1
    fillet1_edges = [part.edges().sort_by_distance(p)[0] for p in [
        (16.870696941, 31.790349197, -33.8375),
        (18.237210337, 0.000220739, 44.449999999),
        (-16.870696941, 31.790349197, -33.8375),
        (-16.870697084, -31.790353899, -33.837491856),
        (-18.237210337, 9.404e-06, 44.45),
        (16.870700278, -31.790459554, -33.837308856),
    ]]
    fillet(fillet1_edges, radius=FILLET1_R)


solid = part.part
